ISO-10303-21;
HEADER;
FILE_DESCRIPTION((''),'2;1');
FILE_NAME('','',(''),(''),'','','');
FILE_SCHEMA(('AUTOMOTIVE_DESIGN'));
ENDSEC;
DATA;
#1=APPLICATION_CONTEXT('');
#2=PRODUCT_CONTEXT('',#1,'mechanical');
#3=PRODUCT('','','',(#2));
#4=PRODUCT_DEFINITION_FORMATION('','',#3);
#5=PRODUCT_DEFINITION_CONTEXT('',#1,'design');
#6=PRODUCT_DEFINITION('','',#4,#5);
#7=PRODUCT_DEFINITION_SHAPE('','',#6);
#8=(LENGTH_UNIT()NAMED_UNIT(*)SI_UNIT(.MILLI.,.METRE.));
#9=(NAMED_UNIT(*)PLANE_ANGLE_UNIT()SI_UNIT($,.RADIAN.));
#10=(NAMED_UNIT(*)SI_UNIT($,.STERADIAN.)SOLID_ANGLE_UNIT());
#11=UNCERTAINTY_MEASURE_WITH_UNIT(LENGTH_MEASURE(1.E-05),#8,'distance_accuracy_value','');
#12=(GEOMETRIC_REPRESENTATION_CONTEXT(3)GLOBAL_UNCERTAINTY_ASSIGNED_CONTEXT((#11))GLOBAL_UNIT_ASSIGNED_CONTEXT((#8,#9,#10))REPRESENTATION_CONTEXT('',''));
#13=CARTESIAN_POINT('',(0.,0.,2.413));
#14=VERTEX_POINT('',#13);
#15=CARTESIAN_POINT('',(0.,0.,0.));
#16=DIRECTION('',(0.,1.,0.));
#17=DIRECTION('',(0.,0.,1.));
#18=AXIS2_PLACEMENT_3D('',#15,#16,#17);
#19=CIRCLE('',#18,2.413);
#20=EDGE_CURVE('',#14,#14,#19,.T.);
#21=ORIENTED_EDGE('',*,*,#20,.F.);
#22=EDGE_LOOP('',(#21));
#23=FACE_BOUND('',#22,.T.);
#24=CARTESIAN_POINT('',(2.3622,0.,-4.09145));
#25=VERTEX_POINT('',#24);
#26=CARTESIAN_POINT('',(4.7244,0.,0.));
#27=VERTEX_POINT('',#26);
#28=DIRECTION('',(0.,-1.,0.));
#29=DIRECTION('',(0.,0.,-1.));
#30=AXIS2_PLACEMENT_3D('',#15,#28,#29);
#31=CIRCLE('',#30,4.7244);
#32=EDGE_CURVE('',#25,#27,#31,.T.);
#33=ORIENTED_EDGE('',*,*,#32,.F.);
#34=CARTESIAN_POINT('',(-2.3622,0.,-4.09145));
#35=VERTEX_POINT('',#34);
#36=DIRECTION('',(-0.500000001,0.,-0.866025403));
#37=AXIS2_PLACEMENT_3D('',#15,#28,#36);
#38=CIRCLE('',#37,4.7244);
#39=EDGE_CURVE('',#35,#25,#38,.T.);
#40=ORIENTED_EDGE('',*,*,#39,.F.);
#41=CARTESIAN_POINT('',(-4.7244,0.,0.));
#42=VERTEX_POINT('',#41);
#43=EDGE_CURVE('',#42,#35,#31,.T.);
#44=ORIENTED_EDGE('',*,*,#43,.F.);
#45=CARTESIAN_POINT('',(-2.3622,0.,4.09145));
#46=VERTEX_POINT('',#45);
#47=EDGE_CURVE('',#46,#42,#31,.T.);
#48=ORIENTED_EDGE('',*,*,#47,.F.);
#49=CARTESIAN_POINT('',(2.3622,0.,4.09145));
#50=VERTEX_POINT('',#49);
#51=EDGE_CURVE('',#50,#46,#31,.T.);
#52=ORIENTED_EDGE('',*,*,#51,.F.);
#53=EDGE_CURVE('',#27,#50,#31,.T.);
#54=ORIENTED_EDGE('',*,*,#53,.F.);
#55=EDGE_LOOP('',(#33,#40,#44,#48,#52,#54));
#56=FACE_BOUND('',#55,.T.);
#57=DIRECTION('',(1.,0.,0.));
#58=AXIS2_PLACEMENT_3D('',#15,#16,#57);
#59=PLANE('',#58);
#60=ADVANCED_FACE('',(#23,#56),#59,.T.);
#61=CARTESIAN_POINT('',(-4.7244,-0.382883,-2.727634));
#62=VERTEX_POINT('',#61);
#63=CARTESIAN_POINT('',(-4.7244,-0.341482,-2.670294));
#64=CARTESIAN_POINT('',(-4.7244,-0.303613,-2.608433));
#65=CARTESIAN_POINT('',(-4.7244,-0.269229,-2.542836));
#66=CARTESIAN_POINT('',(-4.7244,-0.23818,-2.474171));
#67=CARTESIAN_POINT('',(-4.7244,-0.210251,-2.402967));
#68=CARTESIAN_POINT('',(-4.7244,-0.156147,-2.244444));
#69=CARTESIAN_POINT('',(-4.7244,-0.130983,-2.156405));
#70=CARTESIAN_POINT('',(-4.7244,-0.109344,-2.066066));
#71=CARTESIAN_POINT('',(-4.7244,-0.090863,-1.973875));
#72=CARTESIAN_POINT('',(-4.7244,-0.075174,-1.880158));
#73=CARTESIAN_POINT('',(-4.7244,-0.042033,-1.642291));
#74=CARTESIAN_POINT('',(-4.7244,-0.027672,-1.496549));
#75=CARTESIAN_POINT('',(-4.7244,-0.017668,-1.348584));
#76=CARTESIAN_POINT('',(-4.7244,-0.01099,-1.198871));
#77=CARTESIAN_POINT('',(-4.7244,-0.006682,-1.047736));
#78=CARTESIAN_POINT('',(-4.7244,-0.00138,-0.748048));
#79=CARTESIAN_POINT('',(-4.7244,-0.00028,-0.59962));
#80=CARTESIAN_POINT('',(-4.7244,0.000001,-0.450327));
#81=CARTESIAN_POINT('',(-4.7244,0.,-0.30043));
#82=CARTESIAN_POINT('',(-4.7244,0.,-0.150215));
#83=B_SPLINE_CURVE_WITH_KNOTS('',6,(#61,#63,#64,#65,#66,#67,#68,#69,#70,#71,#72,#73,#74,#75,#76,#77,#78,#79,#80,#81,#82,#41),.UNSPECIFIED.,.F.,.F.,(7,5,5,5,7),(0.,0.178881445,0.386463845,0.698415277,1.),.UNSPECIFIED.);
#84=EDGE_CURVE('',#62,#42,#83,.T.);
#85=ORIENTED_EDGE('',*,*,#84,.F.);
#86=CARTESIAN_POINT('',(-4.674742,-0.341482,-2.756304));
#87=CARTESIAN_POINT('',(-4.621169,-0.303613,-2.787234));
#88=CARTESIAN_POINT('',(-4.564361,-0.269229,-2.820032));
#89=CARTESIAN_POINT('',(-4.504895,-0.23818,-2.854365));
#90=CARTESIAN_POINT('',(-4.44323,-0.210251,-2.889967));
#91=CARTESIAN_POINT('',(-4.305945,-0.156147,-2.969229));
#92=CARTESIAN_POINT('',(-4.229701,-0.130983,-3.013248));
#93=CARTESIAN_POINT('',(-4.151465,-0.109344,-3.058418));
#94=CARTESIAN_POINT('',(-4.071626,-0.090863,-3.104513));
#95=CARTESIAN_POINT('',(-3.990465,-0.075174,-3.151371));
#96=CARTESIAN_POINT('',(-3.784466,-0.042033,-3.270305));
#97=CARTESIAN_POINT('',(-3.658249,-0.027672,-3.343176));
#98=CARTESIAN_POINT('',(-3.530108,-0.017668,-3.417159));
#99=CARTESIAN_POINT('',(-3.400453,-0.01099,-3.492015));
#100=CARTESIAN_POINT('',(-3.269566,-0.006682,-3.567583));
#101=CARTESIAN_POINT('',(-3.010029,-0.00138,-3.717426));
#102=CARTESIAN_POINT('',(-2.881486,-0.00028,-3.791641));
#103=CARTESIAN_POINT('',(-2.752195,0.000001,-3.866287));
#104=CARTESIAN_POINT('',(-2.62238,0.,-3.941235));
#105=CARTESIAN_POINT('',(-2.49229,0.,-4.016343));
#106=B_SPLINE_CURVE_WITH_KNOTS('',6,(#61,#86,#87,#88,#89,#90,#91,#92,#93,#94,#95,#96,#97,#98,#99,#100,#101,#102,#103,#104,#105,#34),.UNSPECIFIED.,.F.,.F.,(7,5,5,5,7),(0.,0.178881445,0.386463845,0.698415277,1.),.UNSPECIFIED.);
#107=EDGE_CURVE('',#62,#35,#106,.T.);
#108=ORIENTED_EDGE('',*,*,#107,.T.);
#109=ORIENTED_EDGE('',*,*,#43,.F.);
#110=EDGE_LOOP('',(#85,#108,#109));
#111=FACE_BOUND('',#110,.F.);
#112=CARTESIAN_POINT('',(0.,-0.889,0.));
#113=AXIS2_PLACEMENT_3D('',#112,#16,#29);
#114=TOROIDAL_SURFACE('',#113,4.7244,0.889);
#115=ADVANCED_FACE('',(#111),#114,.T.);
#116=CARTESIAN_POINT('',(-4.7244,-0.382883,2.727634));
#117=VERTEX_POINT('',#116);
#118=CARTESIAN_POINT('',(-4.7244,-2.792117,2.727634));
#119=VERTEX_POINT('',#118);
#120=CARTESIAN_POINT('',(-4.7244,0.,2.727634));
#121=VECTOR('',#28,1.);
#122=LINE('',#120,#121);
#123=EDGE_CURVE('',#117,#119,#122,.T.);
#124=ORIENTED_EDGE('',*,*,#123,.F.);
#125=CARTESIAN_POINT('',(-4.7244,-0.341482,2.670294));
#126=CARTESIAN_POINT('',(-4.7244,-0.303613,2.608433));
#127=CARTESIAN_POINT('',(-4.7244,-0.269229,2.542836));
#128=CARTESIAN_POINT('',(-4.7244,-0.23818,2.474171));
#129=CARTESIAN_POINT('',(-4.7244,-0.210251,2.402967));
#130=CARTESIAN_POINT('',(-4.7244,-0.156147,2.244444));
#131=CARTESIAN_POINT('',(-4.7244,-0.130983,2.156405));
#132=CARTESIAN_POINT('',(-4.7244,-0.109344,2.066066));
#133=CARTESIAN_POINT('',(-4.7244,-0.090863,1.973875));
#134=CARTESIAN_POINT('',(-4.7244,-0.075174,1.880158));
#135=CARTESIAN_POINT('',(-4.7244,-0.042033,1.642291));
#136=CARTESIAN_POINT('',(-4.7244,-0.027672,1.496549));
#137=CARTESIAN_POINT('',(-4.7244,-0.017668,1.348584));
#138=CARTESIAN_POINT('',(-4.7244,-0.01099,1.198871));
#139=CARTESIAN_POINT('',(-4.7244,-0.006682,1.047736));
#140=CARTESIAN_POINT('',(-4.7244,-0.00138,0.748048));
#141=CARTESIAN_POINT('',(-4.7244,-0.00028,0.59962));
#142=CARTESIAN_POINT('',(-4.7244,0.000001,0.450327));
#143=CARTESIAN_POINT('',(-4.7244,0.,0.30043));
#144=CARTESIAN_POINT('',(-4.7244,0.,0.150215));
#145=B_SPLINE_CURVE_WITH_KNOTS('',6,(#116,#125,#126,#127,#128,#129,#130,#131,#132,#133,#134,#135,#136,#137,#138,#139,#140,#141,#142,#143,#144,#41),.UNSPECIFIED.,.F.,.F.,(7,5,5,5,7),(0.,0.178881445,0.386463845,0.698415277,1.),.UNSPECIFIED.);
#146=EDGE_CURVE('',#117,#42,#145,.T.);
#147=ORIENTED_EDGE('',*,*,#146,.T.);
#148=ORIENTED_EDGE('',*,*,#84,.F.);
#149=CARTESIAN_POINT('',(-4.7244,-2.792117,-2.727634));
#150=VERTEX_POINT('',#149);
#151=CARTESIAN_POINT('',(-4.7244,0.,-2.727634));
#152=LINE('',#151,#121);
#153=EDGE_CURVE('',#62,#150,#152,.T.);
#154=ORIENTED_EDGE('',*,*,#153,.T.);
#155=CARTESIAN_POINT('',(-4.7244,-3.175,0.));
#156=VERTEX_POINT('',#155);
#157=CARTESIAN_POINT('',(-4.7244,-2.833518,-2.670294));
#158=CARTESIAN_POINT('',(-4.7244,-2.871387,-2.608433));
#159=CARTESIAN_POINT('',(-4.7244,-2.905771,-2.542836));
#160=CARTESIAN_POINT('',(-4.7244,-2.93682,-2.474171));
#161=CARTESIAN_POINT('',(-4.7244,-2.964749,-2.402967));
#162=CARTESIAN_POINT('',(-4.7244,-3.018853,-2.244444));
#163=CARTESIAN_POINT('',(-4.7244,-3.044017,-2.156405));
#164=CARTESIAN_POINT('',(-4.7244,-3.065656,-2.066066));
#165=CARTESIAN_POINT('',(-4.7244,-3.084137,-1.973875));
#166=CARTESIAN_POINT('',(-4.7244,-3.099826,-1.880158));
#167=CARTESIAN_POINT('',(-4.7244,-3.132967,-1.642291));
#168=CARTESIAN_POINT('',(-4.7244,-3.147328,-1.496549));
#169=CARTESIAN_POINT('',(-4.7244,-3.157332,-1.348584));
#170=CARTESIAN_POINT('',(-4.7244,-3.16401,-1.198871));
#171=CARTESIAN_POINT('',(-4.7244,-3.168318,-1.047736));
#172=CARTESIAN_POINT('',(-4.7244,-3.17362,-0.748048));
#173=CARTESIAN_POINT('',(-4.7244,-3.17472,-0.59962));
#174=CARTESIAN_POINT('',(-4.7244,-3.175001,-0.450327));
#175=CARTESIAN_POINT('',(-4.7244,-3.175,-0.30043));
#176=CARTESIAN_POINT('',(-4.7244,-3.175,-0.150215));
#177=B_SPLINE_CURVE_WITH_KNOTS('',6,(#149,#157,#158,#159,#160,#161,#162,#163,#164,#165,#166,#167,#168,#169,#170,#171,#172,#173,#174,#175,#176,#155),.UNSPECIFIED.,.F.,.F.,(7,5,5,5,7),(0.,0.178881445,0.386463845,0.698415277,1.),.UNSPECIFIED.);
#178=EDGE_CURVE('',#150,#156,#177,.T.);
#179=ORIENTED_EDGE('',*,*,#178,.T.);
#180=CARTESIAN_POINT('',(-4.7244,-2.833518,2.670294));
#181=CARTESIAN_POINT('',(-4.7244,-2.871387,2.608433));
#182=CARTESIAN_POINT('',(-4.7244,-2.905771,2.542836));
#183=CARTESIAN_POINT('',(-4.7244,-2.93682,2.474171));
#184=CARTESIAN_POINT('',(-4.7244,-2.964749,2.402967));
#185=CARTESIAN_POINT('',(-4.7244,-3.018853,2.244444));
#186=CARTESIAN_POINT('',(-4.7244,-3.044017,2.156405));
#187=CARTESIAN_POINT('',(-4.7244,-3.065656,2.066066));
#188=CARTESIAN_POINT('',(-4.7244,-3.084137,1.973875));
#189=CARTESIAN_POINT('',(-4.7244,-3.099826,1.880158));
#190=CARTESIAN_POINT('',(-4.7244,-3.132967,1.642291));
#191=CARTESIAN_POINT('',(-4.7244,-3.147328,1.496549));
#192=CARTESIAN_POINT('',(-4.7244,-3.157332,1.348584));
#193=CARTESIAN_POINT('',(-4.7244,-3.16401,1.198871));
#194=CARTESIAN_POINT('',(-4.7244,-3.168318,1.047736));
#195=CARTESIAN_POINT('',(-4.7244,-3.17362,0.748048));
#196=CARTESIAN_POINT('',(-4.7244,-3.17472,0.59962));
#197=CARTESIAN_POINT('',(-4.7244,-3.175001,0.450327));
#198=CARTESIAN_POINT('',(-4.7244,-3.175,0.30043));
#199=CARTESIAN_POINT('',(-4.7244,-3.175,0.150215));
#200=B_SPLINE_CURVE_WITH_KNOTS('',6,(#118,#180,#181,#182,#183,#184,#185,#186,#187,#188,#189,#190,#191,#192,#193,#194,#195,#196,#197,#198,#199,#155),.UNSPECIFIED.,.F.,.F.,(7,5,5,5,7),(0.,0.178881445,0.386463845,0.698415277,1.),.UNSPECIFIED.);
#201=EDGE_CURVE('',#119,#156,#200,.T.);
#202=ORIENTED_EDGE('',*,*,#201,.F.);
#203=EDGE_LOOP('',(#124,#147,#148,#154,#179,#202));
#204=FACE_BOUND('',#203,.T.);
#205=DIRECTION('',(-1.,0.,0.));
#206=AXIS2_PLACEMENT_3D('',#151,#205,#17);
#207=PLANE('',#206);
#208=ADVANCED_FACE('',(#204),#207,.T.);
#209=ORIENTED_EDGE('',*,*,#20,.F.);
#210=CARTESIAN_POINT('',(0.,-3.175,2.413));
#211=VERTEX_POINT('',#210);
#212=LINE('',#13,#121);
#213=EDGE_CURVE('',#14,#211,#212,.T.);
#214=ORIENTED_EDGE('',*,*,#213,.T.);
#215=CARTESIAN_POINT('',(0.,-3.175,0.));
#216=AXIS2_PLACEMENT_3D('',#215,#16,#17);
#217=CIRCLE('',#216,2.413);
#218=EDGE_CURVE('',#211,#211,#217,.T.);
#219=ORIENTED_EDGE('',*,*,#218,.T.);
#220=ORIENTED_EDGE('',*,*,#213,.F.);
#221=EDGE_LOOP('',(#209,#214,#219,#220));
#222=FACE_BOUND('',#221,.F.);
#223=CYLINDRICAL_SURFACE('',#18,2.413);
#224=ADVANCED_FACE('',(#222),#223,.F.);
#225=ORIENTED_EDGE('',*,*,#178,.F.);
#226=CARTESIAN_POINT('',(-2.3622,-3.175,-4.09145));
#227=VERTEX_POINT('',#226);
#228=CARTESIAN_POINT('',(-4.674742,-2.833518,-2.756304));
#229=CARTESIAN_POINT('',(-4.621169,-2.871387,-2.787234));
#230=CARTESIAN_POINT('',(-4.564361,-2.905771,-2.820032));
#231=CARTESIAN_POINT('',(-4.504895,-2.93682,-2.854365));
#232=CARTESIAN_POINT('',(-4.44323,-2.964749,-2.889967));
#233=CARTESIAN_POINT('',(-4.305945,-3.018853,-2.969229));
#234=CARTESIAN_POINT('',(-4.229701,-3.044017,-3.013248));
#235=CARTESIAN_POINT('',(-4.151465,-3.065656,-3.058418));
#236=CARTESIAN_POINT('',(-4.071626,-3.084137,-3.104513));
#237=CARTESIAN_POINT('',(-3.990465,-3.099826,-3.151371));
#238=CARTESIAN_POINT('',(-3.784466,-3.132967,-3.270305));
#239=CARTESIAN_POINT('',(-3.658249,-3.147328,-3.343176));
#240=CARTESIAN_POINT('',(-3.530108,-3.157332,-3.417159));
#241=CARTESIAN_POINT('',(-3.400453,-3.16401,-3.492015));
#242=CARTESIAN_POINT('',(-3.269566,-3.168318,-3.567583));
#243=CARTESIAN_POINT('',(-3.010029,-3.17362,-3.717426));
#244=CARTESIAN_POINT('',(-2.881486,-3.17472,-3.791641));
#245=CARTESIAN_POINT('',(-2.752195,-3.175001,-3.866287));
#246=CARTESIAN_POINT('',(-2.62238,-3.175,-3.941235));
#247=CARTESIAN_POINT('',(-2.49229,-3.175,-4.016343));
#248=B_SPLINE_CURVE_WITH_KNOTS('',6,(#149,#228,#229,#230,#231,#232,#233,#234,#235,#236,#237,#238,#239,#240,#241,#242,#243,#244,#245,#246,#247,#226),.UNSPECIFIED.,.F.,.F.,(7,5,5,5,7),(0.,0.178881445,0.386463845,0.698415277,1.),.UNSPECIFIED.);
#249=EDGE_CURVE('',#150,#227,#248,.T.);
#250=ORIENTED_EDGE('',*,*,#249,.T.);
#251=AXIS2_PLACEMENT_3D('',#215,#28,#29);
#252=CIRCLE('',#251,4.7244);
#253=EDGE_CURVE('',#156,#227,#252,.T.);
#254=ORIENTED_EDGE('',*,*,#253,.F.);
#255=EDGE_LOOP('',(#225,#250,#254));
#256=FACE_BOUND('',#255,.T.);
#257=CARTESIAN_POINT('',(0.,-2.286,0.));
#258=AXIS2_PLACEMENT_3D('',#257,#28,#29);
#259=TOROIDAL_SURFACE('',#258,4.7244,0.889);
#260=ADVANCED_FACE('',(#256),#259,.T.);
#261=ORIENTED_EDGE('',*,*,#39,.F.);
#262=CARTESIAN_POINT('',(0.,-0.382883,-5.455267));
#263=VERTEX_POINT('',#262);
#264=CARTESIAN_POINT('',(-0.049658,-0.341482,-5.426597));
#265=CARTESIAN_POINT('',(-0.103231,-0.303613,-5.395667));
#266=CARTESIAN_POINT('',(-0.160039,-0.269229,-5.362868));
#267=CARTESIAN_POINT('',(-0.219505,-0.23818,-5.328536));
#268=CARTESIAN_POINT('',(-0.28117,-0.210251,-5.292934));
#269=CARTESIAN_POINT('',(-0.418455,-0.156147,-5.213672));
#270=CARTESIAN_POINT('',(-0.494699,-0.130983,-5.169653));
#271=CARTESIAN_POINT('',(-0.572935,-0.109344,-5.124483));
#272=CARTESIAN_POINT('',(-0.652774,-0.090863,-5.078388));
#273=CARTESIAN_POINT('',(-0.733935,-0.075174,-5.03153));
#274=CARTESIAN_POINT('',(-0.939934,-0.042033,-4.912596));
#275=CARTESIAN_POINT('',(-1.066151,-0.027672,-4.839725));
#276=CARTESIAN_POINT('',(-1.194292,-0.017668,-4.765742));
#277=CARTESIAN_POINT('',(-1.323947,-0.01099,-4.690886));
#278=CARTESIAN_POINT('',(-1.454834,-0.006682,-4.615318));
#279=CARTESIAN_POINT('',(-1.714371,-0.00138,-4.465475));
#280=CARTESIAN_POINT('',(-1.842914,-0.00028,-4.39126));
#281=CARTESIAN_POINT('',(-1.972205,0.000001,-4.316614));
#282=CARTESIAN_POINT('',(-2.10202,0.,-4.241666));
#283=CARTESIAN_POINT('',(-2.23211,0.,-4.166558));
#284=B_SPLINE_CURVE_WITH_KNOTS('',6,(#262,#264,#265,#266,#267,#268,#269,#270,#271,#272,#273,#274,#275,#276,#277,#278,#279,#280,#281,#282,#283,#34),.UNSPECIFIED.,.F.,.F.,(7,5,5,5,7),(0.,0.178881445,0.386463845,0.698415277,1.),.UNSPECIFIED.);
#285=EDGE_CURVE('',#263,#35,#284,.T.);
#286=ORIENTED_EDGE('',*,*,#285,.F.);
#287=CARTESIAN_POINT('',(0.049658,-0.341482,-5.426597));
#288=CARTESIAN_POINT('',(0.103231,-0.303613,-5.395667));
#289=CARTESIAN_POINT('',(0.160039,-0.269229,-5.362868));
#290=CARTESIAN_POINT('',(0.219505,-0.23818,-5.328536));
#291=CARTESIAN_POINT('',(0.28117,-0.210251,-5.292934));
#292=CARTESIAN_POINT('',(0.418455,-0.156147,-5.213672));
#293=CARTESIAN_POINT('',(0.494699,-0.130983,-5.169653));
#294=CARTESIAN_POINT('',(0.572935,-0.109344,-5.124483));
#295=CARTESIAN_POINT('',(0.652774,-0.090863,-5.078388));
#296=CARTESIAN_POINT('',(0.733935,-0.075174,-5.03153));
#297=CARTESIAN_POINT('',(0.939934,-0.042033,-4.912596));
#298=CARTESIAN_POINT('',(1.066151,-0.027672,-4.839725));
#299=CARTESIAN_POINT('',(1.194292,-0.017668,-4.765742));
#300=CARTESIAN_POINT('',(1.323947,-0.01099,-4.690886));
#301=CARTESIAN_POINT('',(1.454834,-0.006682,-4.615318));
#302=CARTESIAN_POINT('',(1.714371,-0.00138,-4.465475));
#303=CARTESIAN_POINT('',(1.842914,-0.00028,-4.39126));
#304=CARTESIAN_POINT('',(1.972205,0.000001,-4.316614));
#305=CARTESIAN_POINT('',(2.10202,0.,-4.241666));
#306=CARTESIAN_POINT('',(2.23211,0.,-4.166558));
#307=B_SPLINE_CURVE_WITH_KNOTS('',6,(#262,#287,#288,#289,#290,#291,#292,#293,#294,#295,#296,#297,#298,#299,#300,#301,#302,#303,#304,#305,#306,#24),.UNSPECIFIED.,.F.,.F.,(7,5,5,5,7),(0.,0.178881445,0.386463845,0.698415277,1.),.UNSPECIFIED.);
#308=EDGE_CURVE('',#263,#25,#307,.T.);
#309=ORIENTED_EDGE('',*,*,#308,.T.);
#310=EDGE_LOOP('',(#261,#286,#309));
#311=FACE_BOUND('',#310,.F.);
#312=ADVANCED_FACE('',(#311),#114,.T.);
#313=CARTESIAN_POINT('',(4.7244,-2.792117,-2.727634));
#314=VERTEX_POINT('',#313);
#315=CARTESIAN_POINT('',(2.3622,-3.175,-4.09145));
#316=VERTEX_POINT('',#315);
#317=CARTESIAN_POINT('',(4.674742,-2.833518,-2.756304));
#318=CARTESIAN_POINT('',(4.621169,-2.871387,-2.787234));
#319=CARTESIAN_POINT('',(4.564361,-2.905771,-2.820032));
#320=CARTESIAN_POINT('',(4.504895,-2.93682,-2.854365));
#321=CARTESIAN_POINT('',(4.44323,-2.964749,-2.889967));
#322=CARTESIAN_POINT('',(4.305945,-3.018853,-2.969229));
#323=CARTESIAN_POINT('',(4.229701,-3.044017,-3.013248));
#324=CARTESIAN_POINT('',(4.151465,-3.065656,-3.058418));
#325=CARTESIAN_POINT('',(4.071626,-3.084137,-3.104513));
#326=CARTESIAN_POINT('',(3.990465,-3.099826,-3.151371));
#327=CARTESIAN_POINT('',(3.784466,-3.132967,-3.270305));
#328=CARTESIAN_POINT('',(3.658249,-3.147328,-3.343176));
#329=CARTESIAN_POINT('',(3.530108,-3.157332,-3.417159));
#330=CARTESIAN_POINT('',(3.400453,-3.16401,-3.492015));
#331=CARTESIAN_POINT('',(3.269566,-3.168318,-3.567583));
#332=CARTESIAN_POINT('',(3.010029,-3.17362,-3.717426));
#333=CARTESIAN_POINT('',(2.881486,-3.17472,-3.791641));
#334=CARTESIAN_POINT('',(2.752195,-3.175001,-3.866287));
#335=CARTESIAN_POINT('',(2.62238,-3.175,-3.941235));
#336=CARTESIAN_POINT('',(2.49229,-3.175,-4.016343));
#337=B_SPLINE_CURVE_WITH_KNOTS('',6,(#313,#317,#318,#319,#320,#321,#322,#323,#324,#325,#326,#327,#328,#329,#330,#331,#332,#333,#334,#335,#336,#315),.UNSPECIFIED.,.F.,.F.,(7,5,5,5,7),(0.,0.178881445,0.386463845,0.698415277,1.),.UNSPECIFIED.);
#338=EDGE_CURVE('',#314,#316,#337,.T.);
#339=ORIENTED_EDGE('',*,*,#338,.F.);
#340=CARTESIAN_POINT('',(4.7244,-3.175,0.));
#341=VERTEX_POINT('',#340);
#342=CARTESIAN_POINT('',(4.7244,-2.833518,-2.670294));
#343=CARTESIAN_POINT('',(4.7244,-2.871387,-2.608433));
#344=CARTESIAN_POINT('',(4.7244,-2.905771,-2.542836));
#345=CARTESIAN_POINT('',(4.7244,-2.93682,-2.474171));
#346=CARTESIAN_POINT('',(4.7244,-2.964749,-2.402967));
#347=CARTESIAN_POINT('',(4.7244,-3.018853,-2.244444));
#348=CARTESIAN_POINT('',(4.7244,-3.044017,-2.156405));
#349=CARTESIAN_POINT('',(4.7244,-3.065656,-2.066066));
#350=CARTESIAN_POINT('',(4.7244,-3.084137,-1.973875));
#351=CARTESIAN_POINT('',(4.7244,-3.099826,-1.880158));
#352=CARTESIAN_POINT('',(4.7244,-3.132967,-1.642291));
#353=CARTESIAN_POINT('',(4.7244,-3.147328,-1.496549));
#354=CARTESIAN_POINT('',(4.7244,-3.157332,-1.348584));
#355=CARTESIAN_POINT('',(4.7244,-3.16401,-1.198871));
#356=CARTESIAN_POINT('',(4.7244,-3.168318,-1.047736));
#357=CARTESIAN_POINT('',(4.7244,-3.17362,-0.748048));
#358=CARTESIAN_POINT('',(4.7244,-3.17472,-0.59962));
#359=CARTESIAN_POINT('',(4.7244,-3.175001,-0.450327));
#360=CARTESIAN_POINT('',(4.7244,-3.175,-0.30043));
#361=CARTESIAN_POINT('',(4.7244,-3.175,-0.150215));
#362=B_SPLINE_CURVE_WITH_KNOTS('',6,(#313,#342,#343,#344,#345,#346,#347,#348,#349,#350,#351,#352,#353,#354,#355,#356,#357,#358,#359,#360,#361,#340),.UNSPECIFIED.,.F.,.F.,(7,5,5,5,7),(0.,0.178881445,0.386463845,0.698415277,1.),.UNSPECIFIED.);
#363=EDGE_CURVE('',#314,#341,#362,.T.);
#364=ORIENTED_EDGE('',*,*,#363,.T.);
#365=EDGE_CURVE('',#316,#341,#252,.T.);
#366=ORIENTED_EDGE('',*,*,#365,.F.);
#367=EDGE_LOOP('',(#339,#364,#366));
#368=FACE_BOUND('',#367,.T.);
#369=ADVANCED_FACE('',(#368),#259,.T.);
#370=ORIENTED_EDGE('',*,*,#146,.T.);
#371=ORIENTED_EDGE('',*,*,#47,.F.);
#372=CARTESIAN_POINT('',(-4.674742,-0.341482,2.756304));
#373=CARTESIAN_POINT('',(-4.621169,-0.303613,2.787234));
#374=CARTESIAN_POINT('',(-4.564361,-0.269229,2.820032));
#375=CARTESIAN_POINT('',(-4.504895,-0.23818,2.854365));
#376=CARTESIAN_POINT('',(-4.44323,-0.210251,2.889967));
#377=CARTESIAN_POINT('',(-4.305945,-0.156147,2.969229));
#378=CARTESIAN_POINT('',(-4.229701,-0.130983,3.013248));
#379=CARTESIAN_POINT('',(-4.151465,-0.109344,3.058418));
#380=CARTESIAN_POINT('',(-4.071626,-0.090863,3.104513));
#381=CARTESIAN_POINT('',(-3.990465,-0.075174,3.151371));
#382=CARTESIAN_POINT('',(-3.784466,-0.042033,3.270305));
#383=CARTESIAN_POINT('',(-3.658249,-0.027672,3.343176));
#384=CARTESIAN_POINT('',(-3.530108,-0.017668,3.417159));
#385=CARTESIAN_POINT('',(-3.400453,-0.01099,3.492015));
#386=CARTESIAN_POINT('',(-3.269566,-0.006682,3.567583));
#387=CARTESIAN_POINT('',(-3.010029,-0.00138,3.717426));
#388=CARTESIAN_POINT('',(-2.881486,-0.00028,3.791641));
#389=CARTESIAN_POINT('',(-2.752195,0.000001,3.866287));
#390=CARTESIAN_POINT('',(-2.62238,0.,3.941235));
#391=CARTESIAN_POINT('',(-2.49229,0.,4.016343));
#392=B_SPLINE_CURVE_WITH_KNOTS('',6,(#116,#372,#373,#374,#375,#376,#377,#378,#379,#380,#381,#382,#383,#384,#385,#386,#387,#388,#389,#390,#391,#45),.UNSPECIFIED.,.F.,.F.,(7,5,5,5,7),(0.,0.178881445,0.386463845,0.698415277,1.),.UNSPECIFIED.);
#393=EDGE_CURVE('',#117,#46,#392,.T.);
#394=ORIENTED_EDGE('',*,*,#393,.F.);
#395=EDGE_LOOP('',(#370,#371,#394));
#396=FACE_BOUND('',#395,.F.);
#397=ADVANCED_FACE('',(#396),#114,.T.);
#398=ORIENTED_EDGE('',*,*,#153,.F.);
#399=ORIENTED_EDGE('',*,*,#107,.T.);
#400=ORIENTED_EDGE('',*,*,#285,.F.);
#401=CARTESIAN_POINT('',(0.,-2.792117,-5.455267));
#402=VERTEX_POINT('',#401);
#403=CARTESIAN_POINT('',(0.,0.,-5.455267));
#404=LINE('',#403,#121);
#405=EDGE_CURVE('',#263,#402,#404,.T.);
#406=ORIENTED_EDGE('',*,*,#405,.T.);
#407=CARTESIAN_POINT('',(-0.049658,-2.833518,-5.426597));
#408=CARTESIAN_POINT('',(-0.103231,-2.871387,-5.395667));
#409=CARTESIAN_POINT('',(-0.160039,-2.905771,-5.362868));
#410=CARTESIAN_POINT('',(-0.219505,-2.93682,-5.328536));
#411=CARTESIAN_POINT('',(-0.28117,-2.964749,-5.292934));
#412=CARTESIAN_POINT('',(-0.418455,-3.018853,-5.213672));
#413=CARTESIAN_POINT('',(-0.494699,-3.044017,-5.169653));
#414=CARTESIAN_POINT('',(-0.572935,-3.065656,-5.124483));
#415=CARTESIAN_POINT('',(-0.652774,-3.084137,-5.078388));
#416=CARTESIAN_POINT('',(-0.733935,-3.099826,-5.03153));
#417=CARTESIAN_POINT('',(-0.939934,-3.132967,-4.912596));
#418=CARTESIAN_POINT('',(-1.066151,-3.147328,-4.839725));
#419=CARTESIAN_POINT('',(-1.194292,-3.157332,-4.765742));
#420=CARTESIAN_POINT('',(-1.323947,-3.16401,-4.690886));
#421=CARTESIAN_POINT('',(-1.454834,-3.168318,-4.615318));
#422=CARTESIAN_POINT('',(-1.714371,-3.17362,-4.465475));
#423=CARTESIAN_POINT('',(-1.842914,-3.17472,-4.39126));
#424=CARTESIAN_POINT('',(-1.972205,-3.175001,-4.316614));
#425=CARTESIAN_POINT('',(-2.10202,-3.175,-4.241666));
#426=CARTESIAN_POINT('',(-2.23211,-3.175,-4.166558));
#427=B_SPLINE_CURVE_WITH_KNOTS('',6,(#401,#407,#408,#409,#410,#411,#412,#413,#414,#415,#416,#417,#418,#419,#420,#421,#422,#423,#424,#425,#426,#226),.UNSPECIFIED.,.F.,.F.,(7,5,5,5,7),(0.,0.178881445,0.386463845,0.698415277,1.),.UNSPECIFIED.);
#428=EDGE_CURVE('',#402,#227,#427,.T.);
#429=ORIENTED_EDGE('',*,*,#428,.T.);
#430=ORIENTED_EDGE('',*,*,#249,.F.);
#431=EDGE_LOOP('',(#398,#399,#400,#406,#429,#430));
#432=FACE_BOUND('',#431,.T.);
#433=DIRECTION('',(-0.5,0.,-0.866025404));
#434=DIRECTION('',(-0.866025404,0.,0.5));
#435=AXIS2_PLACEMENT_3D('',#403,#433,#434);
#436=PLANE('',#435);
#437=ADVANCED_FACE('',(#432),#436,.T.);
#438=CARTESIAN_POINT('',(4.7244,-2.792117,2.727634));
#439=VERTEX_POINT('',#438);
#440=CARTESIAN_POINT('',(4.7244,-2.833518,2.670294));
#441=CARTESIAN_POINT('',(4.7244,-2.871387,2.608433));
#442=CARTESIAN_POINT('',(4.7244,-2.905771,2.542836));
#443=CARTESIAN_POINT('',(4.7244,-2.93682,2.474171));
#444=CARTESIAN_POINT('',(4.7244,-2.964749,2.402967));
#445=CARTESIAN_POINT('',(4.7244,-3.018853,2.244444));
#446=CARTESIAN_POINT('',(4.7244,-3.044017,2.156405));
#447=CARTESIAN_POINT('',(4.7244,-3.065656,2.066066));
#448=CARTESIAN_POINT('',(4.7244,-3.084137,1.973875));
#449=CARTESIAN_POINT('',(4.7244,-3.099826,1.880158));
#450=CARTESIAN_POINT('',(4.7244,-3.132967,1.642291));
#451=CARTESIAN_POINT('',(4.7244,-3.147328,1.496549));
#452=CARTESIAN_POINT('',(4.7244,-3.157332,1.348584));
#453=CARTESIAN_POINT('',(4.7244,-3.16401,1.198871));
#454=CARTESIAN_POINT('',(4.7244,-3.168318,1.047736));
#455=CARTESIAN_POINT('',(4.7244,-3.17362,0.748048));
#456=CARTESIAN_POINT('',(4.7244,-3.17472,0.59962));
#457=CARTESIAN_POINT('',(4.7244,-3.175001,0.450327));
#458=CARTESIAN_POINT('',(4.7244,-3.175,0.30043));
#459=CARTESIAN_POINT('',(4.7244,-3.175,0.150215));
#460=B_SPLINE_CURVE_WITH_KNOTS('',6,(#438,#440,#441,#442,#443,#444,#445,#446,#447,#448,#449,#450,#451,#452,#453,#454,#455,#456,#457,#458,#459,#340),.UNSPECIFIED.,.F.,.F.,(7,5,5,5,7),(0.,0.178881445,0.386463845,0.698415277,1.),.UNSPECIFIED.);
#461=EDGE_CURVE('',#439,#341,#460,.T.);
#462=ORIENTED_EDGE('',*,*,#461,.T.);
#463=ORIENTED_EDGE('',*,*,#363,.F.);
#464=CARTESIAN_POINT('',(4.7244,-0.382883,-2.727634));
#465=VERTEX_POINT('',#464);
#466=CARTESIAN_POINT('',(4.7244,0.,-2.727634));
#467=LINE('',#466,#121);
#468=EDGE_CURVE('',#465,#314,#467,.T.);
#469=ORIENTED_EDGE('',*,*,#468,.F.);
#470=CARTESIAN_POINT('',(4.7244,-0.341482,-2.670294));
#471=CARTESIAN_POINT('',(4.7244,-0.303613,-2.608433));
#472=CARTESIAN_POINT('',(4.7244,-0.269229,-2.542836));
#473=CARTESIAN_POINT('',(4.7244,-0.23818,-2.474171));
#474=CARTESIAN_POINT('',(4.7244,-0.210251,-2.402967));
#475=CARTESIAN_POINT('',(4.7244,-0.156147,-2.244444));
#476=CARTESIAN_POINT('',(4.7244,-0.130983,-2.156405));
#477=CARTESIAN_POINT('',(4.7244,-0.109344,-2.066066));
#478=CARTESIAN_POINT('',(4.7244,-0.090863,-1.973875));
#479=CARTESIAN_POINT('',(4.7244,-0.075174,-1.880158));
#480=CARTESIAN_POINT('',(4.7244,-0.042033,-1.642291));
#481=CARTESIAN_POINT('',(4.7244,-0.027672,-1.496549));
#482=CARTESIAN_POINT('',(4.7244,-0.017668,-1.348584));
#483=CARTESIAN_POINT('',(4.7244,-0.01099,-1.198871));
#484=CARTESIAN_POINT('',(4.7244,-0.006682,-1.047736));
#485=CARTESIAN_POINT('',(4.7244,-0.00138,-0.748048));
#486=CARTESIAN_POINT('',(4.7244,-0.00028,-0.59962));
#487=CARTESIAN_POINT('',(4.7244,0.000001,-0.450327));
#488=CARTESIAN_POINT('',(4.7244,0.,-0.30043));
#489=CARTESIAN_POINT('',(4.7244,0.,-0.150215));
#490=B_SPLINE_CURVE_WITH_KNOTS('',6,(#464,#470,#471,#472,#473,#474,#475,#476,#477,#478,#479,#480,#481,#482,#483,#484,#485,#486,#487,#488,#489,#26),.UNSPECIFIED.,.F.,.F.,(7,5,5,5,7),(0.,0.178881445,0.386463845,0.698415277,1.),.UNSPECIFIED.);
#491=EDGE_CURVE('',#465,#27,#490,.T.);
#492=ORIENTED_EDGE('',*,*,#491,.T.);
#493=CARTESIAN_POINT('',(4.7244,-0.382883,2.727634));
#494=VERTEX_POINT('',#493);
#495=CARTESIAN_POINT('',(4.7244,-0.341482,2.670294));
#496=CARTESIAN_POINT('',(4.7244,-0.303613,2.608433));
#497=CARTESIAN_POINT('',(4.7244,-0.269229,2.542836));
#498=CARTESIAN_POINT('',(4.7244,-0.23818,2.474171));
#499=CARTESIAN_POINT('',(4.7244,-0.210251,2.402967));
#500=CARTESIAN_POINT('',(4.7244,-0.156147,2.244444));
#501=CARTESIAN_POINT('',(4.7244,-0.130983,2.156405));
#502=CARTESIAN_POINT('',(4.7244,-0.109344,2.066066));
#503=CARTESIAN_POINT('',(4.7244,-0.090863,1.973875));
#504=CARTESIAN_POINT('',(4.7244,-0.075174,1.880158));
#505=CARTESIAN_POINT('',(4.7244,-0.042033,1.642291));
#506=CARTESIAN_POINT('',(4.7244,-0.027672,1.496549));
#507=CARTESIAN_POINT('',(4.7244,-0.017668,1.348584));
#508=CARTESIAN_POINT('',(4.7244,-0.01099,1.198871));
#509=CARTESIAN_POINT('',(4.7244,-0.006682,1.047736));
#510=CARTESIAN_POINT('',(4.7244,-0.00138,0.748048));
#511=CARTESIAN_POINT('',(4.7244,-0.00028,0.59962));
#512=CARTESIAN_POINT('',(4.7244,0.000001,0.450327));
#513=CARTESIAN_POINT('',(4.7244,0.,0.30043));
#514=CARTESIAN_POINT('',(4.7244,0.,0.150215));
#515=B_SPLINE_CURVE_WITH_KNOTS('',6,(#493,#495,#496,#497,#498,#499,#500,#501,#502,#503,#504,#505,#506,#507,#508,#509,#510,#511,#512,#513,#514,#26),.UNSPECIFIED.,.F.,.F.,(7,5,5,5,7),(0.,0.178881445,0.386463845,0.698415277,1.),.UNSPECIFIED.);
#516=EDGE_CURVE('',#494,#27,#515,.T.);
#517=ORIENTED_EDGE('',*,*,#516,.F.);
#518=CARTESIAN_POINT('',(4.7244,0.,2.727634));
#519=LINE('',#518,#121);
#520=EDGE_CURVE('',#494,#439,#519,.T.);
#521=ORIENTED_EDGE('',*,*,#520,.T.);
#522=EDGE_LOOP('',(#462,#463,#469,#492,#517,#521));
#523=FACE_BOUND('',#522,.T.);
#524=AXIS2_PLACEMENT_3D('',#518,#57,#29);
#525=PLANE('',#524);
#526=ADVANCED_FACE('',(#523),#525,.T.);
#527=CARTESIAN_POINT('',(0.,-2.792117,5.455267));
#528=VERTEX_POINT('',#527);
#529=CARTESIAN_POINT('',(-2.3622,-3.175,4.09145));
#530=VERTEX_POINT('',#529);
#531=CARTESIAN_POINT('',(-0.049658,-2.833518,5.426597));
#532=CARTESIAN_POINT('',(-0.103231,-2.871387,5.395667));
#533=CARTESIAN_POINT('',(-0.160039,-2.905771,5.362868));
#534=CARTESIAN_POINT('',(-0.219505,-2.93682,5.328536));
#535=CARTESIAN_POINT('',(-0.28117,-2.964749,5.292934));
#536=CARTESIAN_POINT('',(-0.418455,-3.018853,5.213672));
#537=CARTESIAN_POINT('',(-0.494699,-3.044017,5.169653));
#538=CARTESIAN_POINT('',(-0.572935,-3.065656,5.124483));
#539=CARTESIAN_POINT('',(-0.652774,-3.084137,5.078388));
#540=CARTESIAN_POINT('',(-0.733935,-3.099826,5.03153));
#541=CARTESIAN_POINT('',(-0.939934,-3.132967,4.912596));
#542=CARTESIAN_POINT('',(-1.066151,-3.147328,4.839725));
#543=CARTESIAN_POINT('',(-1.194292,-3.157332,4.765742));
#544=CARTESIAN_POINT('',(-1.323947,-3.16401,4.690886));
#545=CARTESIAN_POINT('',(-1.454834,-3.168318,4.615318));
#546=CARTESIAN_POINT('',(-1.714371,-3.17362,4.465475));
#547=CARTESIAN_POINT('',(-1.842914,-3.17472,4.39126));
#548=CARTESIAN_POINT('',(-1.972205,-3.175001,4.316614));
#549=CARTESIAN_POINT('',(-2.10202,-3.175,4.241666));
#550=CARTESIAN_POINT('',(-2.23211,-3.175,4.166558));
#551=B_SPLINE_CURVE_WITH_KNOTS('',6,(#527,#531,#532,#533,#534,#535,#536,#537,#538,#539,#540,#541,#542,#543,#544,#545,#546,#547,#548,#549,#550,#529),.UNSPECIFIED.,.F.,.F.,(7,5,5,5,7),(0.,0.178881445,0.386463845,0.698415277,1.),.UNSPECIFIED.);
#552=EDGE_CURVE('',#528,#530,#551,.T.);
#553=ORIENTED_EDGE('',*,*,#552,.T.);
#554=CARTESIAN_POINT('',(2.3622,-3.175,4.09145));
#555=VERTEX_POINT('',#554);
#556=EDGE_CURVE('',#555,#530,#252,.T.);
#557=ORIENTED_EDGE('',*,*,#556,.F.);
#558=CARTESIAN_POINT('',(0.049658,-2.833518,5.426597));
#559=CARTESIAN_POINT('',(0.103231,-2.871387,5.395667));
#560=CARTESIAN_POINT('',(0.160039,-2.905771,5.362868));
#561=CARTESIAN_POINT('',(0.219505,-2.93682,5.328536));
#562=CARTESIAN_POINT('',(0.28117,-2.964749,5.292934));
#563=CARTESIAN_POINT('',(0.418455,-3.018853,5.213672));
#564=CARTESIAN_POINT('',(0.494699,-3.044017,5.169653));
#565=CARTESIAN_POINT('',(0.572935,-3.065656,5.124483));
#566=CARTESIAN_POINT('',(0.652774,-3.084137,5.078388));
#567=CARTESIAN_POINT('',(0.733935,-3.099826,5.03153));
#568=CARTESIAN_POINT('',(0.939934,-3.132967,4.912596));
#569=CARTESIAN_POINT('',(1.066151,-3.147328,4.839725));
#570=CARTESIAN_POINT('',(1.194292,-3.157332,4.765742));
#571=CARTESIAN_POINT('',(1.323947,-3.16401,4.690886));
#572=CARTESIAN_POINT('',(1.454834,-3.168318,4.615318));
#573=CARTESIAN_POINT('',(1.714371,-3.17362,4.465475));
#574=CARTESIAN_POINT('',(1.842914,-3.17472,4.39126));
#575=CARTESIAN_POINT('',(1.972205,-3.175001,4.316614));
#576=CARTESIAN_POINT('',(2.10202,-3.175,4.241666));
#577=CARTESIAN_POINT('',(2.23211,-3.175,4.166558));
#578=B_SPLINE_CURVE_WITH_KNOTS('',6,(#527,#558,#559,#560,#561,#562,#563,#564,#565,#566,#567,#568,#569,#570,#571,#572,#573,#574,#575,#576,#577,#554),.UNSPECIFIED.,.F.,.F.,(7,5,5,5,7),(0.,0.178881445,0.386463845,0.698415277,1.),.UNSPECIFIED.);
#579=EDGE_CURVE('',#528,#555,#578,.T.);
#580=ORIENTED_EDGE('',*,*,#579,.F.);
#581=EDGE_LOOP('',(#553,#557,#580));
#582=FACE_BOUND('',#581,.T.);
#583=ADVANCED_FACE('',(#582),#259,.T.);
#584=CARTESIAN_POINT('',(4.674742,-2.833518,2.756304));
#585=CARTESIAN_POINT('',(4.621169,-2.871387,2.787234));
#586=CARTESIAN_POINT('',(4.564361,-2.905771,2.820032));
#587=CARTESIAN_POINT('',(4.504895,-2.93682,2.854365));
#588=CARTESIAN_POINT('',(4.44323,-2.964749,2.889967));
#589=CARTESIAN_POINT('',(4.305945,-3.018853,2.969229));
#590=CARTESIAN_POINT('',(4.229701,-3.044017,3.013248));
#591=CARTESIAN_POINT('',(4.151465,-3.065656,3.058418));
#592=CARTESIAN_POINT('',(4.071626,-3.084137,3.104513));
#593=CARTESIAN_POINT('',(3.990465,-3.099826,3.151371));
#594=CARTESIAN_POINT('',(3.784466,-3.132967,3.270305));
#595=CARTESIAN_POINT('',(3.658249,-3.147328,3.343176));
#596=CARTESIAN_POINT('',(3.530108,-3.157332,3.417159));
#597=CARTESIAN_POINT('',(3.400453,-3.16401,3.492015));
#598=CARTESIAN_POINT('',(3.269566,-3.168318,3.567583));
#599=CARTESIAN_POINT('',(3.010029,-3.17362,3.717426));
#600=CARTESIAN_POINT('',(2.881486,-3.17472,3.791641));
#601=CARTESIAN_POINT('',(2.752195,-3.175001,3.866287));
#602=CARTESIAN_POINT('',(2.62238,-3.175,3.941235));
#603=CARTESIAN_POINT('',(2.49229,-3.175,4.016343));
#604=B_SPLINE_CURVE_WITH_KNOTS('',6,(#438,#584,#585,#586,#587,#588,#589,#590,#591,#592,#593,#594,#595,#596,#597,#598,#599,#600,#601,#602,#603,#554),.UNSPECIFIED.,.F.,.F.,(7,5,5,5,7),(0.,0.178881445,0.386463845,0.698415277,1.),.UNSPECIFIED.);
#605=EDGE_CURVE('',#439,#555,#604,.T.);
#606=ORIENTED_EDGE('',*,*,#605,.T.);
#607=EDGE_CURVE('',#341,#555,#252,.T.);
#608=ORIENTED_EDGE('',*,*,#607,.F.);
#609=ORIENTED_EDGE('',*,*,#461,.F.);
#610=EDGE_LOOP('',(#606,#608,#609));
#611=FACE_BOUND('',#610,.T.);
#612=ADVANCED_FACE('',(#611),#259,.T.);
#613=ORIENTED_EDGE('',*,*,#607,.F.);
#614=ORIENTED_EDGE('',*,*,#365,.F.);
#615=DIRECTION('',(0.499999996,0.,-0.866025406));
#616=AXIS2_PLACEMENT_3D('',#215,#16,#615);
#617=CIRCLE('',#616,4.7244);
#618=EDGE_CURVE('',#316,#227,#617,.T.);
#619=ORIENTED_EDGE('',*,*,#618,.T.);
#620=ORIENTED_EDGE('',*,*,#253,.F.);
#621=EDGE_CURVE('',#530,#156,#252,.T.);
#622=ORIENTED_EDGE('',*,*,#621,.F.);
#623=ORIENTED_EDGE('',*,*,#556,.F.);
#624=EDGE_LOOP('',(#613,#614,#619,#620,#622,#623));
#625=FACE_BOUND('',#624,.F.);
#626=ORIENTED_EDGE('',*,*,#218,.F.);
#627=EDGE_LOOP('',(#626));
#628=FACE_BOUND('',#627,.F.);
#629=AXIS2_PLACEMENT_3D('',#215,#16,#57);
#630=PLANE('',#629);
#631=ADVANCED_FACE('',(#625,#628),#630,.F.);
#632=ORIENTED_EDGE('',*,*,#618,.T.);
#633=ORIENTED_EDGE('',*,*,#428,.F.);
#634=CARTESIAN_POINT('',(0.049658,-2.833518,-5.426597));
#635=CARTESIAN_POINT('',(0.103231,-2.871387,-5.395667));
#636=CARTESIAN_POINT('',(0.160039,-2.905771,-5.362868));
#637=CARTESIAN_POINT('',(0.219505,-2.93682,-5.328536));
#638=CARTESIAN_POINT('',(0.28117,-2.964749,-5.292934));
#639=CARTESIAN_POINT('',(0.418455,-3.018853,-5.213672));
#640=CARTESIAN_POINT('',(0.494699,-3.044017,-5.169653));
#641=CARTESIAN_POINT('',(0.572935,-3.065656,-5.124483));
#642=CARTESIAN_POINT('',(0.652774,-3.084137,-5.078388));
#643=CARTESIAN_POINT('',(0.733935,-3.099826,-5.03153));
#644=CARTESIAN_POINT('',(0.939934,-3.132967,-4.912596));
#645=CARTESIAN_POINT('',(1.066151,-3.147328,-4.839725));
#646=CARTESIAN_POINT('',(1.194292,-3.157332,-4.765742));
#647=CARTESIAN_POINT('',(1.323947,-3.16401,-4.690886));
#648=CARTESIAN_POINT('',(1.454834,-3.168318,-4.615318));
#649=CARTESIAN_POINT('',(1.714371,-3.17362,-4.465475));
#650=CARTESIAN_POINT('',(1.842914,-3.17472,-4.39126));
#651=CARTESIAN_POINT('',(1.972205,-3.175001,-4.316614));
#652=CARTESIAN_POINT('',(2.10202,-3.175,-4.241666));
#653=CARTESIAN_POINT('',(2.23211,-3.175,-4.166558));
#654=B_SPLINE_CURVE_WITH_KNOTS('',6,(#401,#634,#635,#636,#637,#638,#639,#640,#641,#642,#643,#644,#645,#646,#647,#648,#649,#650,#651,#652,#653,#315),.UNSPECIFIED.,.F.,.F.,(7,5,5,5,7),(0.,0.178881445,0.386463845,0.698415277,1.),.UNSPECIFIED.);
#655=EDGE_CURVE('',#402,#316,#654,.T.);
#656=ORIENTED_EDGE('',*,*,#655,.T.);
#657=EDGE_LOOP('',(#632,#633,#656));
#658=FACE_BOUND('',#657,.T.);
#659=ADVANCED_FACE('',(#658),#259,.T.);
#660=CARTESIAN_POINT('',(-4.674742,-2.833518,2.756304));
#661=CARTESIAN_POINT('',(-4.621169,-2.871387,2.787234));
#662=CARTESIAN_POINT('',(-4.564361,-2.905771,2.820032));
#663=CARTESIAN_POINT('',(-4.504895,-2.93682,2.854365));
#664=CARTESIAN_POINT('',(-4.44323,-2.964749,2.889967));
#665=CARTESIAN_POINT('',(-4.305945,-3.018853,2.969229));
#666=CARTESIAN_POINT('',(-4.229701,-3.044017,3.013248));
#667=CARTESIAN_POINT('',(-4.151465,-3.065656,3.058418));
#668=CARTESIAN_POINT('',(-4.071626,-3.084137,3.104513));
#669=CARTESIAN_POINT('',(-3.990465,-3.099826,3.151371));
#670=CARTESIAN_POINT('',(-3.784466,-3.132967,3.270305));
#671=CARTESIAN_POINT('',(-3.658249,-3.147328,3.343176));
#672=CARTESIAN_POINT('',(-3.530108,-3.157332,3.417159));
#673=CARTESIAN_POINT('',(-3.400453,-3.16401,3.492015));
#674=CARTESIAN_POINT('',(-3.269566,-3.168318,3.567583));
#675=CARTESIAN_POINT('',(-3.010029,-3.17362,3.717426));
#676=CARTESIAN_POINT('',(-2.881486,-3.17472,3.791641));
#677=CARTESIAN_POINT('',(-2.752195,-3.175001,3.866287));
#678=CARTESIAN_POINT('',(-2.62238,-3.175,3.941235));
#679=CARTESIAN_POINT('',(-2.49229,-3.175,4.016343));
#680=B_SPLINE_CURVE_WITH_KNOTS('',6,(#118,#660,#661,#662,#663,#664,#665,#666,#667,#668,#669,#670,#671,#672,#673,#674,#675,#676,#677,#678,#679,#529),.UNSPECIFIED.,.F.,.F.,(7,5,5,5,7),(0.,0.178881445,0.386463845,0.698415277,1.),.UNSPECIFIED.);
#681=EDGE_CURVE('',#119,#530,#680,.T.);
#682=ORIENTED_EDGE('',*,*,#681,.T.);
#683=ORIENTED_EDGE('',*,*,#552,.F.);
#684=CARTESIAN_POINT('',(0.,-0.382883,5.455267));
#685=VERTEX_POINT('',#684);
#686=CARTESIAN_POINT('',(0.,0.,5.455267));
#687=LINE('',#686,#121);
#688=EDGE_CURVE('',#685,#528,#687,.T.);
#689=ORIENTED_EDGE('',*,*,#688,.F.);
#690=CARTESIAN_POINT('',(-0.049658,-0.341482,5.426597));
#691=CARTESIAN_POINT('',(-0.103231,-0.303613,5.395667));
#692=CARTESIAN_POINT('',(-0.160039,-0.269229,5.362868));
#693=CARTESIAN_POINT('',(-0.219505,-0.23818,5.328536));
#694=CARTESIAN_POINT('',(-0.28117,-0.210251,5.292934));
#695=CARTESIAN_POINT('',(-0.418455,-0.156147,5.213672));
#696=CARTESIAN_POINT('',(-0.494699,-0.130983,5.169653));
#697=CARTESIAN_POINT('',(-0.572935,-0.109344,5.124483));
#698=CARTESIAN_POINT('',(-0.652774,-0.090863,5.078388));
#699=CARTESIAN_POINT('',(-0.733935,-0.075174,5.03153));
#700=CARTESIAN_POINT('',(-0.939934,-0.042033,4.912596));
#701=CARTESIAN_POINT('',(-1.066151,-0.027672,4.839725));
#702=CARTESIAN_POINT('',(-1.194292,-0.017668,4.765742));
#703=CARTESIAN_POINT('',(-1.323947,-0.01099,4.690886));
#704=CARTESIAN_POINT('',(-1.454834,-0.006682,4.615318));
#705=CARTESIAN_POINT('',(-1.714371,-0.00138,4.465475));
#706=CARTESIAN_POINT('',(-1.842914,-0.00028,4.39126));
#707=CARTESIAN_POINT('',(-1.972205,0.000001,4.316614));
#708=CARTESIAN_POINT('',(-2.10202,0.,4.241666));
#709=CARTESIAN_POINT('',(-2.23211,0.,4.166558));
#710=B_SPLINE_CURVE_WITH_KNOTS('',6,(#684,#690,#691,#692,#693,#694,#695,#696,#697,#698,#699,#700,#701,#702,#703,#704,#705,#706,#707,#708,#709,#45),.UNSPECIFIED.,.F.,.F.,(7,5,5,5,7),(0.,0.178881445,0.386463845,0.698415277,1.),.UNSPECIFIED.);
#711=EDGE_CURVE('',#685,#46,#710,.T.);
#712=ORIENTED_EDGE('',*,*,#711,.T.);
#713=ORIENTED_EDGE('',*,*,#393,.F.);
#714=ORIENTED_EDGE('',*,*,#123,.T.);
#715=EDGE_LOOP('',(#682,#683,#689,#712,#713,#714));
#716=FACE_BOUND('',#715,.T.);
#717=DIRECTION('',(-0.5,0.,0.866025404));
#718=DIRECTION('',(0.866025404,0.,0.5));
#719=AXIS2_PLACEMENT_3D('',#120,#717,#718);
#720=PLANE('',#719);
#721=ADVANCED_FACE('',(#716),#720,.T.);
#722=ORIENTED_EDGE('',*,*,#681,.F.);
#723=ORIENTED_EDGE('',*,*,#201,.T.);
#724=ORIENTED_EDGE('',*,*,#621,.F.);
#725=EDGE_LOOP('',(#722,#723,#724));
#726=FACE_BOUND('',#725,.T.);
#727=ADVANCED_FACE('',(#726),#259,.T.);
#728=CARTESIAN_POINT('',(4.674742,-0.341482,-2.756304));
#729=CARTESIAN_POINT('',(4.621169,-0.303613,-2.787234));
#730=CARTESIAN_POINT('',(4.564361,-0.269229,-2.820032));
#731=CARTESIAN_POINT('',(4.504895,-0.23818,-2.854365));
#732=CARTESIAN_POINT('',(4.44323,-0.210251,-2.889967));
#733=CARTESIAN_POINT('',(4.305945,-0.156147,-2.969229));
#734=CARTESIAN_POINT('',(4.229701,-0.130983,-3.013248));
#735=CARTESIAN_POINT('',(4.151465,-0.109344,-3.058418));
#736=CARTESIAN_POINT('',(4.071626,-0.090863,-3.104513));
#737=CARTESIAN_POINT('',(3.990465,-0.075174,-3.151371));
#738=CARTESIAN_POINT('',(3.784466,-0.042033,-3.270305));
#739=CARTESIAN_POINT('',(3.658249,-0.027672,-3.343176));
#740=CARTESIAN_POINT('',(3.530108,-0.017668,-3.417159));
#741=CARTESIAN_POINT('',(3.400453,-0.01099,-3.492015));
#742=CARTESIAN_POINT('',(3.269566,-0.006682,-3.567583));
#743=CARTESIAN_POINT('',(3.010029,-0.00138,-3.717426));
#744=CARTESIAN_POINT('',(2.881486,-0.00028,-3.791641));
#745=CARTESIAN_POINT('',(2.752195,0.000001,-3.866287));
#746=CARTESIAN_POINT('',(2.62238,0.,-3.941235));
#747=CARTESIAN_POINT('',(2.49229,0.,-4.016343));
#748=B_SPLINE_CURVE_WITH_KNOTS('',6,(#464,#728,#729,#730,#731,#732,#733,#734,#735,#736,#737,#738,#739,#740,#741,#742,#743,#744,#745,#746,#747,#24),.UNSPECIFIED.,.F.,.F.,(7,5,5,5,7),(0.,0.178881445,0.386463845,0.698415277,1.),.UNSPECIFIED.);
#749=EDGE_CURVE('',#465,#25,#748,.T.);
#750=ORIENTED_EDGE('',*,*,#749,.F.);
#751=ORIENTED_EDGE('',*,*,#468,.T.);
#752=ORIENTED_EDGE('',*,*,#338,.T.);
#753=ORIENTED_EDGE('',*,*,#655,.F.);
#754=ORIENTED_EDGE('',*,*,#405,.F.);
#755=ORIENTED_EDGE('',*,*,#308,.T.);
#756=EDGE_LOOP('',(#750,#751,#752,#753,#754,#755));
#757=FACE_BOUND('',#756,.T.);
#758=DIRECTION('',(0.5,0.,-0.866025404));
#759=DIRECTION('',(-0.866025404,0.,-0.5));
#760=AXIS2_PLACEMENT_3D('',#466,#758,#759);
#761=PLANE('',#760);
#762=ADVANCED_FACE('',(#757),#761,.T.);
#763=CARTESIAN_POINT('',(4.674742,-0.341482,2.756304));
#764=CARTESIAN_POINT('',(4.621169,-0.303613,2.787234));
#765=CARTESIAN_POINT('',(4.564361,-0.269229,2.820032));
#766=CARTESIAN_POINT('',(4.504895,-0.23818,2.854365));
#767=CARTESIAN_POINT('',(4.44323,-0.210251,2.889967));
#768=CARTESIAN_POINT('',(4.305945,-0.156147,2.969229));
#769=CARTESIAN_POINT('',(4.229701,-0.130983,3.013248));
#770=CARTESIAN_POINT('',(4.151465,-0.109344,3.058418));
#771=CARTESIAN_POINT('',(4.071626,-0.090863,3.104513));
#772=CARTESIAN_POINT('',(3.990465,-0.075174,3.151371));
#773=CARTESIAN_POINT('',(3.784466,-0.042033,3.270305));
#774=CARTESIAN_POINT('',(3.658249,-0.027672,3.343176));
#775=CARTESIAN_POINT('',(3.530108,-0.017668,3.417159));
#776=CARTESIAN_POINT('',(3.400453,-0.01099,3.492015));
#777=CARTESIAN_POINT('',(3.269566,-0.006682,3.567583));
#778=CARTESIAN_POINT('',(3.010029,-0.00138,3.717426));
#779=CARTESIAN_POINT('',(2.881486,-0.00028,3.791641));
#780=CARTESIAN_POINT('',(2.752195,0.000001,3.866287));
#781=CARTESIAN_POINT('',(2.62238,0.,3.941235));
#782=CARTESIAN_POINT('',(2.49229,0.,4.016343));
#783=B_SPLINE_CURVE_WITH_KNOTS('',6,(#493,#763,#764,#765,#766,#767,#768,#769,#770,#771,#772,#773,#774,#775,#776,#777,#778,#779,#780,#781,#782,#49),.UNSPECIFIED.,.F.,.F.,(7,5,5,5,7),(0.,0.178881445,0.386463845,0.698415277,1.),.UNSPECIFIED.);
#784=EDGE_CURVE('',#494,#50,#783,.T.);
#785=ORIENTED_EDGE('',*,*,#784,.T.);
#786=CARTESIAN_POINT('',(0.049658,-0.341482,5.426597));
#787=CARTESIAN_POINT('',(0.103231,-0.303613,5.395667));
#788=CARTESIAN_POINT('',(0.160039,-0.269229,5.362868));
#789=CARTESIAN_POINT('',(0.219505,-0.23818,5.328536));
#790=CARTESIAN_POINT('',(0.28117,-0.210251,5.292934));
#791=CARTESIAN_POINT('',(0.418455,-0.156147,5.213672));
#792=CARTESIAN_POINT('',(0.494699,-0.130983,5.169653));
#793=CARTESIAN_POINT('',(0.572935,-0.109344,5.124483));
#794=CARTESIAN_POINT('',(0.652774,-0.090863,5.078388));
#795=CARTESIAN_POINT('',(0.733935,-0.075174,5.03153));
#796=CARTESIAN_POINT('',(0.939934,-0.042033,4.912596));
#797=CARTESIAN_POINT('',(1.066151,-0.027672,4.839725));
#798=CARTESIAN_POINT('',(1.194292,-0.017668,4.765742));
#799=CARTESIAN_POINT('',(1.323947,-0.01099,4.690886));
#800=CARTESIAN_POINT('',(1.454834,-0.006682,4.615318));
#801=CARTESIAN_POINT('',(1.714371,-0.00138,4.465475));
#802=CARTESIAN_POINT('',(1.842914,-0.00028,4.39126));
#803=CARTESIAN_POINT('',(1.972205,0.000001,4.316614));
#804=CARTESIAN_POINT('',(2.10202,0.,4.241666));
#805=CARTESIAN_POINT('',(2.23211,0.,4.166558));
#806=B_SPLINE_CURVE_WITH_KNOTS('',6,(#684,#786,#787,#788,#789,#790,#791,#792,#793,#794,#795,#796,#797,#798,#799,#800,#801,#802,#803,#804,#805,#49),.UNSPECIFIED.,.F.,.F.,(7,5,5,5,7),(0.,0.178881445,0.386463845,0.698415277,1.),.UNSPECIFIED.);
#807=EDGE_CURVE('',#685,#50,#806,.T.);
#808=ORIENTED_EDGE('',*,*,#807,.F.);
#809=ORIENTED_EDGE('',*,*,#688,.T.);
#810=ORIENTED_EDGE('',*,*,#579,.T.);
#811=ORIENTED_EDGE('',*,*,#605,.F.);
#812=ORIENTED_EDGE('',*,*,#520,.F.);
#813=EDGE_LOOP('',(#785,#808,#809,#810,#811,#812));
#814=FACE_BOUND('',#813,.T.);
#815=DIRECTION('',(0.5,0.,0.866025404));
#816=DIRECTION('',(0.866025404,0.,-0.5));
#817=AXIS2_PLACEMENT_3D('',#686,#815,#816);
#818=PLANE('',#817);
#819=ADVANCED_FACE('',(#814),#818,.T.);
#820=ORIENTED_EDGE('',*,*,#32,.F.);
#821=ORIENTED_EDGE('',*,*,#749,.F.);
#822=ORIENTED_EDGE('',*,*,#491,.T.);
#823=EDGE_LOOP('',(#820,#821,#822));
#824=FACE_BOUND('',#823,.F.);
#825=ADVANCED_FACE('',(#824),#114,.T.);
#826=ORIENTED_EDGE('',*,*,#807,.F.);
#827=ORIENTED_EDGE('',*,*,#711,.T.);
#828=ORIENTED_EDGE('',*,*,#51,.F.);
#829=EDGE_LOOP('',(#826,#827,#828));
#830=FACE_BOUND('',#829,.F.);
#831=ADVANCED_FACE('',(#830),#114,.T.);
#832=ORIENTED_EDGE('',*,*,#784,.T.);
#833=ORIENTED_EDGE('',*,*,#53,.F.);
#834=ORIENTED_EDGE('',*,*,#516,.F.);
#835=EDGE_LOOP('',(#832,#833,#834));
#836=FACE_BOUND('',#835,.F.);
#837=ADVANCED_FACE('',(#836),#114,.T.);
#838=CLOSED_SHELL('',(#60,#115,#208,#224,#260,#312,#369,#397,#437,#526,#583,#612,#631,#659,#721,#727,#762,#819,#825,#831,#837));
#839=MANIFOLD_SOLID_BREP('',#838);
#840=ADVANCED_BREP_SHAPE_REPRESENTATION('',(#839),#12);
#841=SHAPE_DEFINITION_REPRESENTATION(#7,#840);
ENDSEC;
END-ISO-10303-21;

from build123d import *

# Parameters (mm, degrees)
SKETCH2_R           = 2.413
BOSS_EXTRUDE2_DEPTH = 3.175


with BuildPart() as part:
    # Sketch2 → Boss-Extrude2 (new body)
    with BuildSketch(Plane(origin=(0, 0, 0), x_dir=(1, 0, 0), z_dir=(0, 1, 0))):
        Polygon((4.7244, 2.727633612), (0, 5.455267224), (-4.7244, 2.727633612), (-4.7244, -2.727633612), (0, -5.455267224), (4.7244, -2.727633612), align=None)
        with Locations(Location((0, 0, 0), (0, 0, 270))):
            Circle(SKETCH2_R, mode=Mode.SUBTRACT)
    extrude(amount=-BOSS_EXTRUDE2_DEPTH)

    # Sketch4 → Cut-Revolve1 (revolve, cut)
    with BuildSketch(Plane(origin=(0, 0, 0), x_dir=(0, 0, -1), z_dir=(1, 0, 0))):
        with BuildLine():
            Line((4.7244, 0), (0, 0))
            Line((0, 0), (0, 0.47939604))
            Line((0, 0.47939604), (5.455267224, 0.47939604))
            Line((5.455267224, 0.47939604), (5.455267224, -0.382883312))
            ThreePointArc((5.455267224, -0.382883312), (5.136942885, -0.101517068), (4.7244, 0))
        make_face()
        with BuildLine():
            Line((0, -3.65439604), (5.455267224, -3.65439604))
            Line((5.455267224, -3.65439604), (5.455267224, -2.792116688))
            ThreePointArc((5.455267224, -2.792116688), (5.136942885, -3.073482932), (4.7244, -3.175))
            Line((4.7244, -3.175), (0, -3.175))
            Line((0, -3.175), (0, -3.65439604))
        make_face()
    revolve(axis=Axis((0, -0.257604259, 0), (0, -1, 0)), mode=Mode.SUBTRACT)


solid = part.part
